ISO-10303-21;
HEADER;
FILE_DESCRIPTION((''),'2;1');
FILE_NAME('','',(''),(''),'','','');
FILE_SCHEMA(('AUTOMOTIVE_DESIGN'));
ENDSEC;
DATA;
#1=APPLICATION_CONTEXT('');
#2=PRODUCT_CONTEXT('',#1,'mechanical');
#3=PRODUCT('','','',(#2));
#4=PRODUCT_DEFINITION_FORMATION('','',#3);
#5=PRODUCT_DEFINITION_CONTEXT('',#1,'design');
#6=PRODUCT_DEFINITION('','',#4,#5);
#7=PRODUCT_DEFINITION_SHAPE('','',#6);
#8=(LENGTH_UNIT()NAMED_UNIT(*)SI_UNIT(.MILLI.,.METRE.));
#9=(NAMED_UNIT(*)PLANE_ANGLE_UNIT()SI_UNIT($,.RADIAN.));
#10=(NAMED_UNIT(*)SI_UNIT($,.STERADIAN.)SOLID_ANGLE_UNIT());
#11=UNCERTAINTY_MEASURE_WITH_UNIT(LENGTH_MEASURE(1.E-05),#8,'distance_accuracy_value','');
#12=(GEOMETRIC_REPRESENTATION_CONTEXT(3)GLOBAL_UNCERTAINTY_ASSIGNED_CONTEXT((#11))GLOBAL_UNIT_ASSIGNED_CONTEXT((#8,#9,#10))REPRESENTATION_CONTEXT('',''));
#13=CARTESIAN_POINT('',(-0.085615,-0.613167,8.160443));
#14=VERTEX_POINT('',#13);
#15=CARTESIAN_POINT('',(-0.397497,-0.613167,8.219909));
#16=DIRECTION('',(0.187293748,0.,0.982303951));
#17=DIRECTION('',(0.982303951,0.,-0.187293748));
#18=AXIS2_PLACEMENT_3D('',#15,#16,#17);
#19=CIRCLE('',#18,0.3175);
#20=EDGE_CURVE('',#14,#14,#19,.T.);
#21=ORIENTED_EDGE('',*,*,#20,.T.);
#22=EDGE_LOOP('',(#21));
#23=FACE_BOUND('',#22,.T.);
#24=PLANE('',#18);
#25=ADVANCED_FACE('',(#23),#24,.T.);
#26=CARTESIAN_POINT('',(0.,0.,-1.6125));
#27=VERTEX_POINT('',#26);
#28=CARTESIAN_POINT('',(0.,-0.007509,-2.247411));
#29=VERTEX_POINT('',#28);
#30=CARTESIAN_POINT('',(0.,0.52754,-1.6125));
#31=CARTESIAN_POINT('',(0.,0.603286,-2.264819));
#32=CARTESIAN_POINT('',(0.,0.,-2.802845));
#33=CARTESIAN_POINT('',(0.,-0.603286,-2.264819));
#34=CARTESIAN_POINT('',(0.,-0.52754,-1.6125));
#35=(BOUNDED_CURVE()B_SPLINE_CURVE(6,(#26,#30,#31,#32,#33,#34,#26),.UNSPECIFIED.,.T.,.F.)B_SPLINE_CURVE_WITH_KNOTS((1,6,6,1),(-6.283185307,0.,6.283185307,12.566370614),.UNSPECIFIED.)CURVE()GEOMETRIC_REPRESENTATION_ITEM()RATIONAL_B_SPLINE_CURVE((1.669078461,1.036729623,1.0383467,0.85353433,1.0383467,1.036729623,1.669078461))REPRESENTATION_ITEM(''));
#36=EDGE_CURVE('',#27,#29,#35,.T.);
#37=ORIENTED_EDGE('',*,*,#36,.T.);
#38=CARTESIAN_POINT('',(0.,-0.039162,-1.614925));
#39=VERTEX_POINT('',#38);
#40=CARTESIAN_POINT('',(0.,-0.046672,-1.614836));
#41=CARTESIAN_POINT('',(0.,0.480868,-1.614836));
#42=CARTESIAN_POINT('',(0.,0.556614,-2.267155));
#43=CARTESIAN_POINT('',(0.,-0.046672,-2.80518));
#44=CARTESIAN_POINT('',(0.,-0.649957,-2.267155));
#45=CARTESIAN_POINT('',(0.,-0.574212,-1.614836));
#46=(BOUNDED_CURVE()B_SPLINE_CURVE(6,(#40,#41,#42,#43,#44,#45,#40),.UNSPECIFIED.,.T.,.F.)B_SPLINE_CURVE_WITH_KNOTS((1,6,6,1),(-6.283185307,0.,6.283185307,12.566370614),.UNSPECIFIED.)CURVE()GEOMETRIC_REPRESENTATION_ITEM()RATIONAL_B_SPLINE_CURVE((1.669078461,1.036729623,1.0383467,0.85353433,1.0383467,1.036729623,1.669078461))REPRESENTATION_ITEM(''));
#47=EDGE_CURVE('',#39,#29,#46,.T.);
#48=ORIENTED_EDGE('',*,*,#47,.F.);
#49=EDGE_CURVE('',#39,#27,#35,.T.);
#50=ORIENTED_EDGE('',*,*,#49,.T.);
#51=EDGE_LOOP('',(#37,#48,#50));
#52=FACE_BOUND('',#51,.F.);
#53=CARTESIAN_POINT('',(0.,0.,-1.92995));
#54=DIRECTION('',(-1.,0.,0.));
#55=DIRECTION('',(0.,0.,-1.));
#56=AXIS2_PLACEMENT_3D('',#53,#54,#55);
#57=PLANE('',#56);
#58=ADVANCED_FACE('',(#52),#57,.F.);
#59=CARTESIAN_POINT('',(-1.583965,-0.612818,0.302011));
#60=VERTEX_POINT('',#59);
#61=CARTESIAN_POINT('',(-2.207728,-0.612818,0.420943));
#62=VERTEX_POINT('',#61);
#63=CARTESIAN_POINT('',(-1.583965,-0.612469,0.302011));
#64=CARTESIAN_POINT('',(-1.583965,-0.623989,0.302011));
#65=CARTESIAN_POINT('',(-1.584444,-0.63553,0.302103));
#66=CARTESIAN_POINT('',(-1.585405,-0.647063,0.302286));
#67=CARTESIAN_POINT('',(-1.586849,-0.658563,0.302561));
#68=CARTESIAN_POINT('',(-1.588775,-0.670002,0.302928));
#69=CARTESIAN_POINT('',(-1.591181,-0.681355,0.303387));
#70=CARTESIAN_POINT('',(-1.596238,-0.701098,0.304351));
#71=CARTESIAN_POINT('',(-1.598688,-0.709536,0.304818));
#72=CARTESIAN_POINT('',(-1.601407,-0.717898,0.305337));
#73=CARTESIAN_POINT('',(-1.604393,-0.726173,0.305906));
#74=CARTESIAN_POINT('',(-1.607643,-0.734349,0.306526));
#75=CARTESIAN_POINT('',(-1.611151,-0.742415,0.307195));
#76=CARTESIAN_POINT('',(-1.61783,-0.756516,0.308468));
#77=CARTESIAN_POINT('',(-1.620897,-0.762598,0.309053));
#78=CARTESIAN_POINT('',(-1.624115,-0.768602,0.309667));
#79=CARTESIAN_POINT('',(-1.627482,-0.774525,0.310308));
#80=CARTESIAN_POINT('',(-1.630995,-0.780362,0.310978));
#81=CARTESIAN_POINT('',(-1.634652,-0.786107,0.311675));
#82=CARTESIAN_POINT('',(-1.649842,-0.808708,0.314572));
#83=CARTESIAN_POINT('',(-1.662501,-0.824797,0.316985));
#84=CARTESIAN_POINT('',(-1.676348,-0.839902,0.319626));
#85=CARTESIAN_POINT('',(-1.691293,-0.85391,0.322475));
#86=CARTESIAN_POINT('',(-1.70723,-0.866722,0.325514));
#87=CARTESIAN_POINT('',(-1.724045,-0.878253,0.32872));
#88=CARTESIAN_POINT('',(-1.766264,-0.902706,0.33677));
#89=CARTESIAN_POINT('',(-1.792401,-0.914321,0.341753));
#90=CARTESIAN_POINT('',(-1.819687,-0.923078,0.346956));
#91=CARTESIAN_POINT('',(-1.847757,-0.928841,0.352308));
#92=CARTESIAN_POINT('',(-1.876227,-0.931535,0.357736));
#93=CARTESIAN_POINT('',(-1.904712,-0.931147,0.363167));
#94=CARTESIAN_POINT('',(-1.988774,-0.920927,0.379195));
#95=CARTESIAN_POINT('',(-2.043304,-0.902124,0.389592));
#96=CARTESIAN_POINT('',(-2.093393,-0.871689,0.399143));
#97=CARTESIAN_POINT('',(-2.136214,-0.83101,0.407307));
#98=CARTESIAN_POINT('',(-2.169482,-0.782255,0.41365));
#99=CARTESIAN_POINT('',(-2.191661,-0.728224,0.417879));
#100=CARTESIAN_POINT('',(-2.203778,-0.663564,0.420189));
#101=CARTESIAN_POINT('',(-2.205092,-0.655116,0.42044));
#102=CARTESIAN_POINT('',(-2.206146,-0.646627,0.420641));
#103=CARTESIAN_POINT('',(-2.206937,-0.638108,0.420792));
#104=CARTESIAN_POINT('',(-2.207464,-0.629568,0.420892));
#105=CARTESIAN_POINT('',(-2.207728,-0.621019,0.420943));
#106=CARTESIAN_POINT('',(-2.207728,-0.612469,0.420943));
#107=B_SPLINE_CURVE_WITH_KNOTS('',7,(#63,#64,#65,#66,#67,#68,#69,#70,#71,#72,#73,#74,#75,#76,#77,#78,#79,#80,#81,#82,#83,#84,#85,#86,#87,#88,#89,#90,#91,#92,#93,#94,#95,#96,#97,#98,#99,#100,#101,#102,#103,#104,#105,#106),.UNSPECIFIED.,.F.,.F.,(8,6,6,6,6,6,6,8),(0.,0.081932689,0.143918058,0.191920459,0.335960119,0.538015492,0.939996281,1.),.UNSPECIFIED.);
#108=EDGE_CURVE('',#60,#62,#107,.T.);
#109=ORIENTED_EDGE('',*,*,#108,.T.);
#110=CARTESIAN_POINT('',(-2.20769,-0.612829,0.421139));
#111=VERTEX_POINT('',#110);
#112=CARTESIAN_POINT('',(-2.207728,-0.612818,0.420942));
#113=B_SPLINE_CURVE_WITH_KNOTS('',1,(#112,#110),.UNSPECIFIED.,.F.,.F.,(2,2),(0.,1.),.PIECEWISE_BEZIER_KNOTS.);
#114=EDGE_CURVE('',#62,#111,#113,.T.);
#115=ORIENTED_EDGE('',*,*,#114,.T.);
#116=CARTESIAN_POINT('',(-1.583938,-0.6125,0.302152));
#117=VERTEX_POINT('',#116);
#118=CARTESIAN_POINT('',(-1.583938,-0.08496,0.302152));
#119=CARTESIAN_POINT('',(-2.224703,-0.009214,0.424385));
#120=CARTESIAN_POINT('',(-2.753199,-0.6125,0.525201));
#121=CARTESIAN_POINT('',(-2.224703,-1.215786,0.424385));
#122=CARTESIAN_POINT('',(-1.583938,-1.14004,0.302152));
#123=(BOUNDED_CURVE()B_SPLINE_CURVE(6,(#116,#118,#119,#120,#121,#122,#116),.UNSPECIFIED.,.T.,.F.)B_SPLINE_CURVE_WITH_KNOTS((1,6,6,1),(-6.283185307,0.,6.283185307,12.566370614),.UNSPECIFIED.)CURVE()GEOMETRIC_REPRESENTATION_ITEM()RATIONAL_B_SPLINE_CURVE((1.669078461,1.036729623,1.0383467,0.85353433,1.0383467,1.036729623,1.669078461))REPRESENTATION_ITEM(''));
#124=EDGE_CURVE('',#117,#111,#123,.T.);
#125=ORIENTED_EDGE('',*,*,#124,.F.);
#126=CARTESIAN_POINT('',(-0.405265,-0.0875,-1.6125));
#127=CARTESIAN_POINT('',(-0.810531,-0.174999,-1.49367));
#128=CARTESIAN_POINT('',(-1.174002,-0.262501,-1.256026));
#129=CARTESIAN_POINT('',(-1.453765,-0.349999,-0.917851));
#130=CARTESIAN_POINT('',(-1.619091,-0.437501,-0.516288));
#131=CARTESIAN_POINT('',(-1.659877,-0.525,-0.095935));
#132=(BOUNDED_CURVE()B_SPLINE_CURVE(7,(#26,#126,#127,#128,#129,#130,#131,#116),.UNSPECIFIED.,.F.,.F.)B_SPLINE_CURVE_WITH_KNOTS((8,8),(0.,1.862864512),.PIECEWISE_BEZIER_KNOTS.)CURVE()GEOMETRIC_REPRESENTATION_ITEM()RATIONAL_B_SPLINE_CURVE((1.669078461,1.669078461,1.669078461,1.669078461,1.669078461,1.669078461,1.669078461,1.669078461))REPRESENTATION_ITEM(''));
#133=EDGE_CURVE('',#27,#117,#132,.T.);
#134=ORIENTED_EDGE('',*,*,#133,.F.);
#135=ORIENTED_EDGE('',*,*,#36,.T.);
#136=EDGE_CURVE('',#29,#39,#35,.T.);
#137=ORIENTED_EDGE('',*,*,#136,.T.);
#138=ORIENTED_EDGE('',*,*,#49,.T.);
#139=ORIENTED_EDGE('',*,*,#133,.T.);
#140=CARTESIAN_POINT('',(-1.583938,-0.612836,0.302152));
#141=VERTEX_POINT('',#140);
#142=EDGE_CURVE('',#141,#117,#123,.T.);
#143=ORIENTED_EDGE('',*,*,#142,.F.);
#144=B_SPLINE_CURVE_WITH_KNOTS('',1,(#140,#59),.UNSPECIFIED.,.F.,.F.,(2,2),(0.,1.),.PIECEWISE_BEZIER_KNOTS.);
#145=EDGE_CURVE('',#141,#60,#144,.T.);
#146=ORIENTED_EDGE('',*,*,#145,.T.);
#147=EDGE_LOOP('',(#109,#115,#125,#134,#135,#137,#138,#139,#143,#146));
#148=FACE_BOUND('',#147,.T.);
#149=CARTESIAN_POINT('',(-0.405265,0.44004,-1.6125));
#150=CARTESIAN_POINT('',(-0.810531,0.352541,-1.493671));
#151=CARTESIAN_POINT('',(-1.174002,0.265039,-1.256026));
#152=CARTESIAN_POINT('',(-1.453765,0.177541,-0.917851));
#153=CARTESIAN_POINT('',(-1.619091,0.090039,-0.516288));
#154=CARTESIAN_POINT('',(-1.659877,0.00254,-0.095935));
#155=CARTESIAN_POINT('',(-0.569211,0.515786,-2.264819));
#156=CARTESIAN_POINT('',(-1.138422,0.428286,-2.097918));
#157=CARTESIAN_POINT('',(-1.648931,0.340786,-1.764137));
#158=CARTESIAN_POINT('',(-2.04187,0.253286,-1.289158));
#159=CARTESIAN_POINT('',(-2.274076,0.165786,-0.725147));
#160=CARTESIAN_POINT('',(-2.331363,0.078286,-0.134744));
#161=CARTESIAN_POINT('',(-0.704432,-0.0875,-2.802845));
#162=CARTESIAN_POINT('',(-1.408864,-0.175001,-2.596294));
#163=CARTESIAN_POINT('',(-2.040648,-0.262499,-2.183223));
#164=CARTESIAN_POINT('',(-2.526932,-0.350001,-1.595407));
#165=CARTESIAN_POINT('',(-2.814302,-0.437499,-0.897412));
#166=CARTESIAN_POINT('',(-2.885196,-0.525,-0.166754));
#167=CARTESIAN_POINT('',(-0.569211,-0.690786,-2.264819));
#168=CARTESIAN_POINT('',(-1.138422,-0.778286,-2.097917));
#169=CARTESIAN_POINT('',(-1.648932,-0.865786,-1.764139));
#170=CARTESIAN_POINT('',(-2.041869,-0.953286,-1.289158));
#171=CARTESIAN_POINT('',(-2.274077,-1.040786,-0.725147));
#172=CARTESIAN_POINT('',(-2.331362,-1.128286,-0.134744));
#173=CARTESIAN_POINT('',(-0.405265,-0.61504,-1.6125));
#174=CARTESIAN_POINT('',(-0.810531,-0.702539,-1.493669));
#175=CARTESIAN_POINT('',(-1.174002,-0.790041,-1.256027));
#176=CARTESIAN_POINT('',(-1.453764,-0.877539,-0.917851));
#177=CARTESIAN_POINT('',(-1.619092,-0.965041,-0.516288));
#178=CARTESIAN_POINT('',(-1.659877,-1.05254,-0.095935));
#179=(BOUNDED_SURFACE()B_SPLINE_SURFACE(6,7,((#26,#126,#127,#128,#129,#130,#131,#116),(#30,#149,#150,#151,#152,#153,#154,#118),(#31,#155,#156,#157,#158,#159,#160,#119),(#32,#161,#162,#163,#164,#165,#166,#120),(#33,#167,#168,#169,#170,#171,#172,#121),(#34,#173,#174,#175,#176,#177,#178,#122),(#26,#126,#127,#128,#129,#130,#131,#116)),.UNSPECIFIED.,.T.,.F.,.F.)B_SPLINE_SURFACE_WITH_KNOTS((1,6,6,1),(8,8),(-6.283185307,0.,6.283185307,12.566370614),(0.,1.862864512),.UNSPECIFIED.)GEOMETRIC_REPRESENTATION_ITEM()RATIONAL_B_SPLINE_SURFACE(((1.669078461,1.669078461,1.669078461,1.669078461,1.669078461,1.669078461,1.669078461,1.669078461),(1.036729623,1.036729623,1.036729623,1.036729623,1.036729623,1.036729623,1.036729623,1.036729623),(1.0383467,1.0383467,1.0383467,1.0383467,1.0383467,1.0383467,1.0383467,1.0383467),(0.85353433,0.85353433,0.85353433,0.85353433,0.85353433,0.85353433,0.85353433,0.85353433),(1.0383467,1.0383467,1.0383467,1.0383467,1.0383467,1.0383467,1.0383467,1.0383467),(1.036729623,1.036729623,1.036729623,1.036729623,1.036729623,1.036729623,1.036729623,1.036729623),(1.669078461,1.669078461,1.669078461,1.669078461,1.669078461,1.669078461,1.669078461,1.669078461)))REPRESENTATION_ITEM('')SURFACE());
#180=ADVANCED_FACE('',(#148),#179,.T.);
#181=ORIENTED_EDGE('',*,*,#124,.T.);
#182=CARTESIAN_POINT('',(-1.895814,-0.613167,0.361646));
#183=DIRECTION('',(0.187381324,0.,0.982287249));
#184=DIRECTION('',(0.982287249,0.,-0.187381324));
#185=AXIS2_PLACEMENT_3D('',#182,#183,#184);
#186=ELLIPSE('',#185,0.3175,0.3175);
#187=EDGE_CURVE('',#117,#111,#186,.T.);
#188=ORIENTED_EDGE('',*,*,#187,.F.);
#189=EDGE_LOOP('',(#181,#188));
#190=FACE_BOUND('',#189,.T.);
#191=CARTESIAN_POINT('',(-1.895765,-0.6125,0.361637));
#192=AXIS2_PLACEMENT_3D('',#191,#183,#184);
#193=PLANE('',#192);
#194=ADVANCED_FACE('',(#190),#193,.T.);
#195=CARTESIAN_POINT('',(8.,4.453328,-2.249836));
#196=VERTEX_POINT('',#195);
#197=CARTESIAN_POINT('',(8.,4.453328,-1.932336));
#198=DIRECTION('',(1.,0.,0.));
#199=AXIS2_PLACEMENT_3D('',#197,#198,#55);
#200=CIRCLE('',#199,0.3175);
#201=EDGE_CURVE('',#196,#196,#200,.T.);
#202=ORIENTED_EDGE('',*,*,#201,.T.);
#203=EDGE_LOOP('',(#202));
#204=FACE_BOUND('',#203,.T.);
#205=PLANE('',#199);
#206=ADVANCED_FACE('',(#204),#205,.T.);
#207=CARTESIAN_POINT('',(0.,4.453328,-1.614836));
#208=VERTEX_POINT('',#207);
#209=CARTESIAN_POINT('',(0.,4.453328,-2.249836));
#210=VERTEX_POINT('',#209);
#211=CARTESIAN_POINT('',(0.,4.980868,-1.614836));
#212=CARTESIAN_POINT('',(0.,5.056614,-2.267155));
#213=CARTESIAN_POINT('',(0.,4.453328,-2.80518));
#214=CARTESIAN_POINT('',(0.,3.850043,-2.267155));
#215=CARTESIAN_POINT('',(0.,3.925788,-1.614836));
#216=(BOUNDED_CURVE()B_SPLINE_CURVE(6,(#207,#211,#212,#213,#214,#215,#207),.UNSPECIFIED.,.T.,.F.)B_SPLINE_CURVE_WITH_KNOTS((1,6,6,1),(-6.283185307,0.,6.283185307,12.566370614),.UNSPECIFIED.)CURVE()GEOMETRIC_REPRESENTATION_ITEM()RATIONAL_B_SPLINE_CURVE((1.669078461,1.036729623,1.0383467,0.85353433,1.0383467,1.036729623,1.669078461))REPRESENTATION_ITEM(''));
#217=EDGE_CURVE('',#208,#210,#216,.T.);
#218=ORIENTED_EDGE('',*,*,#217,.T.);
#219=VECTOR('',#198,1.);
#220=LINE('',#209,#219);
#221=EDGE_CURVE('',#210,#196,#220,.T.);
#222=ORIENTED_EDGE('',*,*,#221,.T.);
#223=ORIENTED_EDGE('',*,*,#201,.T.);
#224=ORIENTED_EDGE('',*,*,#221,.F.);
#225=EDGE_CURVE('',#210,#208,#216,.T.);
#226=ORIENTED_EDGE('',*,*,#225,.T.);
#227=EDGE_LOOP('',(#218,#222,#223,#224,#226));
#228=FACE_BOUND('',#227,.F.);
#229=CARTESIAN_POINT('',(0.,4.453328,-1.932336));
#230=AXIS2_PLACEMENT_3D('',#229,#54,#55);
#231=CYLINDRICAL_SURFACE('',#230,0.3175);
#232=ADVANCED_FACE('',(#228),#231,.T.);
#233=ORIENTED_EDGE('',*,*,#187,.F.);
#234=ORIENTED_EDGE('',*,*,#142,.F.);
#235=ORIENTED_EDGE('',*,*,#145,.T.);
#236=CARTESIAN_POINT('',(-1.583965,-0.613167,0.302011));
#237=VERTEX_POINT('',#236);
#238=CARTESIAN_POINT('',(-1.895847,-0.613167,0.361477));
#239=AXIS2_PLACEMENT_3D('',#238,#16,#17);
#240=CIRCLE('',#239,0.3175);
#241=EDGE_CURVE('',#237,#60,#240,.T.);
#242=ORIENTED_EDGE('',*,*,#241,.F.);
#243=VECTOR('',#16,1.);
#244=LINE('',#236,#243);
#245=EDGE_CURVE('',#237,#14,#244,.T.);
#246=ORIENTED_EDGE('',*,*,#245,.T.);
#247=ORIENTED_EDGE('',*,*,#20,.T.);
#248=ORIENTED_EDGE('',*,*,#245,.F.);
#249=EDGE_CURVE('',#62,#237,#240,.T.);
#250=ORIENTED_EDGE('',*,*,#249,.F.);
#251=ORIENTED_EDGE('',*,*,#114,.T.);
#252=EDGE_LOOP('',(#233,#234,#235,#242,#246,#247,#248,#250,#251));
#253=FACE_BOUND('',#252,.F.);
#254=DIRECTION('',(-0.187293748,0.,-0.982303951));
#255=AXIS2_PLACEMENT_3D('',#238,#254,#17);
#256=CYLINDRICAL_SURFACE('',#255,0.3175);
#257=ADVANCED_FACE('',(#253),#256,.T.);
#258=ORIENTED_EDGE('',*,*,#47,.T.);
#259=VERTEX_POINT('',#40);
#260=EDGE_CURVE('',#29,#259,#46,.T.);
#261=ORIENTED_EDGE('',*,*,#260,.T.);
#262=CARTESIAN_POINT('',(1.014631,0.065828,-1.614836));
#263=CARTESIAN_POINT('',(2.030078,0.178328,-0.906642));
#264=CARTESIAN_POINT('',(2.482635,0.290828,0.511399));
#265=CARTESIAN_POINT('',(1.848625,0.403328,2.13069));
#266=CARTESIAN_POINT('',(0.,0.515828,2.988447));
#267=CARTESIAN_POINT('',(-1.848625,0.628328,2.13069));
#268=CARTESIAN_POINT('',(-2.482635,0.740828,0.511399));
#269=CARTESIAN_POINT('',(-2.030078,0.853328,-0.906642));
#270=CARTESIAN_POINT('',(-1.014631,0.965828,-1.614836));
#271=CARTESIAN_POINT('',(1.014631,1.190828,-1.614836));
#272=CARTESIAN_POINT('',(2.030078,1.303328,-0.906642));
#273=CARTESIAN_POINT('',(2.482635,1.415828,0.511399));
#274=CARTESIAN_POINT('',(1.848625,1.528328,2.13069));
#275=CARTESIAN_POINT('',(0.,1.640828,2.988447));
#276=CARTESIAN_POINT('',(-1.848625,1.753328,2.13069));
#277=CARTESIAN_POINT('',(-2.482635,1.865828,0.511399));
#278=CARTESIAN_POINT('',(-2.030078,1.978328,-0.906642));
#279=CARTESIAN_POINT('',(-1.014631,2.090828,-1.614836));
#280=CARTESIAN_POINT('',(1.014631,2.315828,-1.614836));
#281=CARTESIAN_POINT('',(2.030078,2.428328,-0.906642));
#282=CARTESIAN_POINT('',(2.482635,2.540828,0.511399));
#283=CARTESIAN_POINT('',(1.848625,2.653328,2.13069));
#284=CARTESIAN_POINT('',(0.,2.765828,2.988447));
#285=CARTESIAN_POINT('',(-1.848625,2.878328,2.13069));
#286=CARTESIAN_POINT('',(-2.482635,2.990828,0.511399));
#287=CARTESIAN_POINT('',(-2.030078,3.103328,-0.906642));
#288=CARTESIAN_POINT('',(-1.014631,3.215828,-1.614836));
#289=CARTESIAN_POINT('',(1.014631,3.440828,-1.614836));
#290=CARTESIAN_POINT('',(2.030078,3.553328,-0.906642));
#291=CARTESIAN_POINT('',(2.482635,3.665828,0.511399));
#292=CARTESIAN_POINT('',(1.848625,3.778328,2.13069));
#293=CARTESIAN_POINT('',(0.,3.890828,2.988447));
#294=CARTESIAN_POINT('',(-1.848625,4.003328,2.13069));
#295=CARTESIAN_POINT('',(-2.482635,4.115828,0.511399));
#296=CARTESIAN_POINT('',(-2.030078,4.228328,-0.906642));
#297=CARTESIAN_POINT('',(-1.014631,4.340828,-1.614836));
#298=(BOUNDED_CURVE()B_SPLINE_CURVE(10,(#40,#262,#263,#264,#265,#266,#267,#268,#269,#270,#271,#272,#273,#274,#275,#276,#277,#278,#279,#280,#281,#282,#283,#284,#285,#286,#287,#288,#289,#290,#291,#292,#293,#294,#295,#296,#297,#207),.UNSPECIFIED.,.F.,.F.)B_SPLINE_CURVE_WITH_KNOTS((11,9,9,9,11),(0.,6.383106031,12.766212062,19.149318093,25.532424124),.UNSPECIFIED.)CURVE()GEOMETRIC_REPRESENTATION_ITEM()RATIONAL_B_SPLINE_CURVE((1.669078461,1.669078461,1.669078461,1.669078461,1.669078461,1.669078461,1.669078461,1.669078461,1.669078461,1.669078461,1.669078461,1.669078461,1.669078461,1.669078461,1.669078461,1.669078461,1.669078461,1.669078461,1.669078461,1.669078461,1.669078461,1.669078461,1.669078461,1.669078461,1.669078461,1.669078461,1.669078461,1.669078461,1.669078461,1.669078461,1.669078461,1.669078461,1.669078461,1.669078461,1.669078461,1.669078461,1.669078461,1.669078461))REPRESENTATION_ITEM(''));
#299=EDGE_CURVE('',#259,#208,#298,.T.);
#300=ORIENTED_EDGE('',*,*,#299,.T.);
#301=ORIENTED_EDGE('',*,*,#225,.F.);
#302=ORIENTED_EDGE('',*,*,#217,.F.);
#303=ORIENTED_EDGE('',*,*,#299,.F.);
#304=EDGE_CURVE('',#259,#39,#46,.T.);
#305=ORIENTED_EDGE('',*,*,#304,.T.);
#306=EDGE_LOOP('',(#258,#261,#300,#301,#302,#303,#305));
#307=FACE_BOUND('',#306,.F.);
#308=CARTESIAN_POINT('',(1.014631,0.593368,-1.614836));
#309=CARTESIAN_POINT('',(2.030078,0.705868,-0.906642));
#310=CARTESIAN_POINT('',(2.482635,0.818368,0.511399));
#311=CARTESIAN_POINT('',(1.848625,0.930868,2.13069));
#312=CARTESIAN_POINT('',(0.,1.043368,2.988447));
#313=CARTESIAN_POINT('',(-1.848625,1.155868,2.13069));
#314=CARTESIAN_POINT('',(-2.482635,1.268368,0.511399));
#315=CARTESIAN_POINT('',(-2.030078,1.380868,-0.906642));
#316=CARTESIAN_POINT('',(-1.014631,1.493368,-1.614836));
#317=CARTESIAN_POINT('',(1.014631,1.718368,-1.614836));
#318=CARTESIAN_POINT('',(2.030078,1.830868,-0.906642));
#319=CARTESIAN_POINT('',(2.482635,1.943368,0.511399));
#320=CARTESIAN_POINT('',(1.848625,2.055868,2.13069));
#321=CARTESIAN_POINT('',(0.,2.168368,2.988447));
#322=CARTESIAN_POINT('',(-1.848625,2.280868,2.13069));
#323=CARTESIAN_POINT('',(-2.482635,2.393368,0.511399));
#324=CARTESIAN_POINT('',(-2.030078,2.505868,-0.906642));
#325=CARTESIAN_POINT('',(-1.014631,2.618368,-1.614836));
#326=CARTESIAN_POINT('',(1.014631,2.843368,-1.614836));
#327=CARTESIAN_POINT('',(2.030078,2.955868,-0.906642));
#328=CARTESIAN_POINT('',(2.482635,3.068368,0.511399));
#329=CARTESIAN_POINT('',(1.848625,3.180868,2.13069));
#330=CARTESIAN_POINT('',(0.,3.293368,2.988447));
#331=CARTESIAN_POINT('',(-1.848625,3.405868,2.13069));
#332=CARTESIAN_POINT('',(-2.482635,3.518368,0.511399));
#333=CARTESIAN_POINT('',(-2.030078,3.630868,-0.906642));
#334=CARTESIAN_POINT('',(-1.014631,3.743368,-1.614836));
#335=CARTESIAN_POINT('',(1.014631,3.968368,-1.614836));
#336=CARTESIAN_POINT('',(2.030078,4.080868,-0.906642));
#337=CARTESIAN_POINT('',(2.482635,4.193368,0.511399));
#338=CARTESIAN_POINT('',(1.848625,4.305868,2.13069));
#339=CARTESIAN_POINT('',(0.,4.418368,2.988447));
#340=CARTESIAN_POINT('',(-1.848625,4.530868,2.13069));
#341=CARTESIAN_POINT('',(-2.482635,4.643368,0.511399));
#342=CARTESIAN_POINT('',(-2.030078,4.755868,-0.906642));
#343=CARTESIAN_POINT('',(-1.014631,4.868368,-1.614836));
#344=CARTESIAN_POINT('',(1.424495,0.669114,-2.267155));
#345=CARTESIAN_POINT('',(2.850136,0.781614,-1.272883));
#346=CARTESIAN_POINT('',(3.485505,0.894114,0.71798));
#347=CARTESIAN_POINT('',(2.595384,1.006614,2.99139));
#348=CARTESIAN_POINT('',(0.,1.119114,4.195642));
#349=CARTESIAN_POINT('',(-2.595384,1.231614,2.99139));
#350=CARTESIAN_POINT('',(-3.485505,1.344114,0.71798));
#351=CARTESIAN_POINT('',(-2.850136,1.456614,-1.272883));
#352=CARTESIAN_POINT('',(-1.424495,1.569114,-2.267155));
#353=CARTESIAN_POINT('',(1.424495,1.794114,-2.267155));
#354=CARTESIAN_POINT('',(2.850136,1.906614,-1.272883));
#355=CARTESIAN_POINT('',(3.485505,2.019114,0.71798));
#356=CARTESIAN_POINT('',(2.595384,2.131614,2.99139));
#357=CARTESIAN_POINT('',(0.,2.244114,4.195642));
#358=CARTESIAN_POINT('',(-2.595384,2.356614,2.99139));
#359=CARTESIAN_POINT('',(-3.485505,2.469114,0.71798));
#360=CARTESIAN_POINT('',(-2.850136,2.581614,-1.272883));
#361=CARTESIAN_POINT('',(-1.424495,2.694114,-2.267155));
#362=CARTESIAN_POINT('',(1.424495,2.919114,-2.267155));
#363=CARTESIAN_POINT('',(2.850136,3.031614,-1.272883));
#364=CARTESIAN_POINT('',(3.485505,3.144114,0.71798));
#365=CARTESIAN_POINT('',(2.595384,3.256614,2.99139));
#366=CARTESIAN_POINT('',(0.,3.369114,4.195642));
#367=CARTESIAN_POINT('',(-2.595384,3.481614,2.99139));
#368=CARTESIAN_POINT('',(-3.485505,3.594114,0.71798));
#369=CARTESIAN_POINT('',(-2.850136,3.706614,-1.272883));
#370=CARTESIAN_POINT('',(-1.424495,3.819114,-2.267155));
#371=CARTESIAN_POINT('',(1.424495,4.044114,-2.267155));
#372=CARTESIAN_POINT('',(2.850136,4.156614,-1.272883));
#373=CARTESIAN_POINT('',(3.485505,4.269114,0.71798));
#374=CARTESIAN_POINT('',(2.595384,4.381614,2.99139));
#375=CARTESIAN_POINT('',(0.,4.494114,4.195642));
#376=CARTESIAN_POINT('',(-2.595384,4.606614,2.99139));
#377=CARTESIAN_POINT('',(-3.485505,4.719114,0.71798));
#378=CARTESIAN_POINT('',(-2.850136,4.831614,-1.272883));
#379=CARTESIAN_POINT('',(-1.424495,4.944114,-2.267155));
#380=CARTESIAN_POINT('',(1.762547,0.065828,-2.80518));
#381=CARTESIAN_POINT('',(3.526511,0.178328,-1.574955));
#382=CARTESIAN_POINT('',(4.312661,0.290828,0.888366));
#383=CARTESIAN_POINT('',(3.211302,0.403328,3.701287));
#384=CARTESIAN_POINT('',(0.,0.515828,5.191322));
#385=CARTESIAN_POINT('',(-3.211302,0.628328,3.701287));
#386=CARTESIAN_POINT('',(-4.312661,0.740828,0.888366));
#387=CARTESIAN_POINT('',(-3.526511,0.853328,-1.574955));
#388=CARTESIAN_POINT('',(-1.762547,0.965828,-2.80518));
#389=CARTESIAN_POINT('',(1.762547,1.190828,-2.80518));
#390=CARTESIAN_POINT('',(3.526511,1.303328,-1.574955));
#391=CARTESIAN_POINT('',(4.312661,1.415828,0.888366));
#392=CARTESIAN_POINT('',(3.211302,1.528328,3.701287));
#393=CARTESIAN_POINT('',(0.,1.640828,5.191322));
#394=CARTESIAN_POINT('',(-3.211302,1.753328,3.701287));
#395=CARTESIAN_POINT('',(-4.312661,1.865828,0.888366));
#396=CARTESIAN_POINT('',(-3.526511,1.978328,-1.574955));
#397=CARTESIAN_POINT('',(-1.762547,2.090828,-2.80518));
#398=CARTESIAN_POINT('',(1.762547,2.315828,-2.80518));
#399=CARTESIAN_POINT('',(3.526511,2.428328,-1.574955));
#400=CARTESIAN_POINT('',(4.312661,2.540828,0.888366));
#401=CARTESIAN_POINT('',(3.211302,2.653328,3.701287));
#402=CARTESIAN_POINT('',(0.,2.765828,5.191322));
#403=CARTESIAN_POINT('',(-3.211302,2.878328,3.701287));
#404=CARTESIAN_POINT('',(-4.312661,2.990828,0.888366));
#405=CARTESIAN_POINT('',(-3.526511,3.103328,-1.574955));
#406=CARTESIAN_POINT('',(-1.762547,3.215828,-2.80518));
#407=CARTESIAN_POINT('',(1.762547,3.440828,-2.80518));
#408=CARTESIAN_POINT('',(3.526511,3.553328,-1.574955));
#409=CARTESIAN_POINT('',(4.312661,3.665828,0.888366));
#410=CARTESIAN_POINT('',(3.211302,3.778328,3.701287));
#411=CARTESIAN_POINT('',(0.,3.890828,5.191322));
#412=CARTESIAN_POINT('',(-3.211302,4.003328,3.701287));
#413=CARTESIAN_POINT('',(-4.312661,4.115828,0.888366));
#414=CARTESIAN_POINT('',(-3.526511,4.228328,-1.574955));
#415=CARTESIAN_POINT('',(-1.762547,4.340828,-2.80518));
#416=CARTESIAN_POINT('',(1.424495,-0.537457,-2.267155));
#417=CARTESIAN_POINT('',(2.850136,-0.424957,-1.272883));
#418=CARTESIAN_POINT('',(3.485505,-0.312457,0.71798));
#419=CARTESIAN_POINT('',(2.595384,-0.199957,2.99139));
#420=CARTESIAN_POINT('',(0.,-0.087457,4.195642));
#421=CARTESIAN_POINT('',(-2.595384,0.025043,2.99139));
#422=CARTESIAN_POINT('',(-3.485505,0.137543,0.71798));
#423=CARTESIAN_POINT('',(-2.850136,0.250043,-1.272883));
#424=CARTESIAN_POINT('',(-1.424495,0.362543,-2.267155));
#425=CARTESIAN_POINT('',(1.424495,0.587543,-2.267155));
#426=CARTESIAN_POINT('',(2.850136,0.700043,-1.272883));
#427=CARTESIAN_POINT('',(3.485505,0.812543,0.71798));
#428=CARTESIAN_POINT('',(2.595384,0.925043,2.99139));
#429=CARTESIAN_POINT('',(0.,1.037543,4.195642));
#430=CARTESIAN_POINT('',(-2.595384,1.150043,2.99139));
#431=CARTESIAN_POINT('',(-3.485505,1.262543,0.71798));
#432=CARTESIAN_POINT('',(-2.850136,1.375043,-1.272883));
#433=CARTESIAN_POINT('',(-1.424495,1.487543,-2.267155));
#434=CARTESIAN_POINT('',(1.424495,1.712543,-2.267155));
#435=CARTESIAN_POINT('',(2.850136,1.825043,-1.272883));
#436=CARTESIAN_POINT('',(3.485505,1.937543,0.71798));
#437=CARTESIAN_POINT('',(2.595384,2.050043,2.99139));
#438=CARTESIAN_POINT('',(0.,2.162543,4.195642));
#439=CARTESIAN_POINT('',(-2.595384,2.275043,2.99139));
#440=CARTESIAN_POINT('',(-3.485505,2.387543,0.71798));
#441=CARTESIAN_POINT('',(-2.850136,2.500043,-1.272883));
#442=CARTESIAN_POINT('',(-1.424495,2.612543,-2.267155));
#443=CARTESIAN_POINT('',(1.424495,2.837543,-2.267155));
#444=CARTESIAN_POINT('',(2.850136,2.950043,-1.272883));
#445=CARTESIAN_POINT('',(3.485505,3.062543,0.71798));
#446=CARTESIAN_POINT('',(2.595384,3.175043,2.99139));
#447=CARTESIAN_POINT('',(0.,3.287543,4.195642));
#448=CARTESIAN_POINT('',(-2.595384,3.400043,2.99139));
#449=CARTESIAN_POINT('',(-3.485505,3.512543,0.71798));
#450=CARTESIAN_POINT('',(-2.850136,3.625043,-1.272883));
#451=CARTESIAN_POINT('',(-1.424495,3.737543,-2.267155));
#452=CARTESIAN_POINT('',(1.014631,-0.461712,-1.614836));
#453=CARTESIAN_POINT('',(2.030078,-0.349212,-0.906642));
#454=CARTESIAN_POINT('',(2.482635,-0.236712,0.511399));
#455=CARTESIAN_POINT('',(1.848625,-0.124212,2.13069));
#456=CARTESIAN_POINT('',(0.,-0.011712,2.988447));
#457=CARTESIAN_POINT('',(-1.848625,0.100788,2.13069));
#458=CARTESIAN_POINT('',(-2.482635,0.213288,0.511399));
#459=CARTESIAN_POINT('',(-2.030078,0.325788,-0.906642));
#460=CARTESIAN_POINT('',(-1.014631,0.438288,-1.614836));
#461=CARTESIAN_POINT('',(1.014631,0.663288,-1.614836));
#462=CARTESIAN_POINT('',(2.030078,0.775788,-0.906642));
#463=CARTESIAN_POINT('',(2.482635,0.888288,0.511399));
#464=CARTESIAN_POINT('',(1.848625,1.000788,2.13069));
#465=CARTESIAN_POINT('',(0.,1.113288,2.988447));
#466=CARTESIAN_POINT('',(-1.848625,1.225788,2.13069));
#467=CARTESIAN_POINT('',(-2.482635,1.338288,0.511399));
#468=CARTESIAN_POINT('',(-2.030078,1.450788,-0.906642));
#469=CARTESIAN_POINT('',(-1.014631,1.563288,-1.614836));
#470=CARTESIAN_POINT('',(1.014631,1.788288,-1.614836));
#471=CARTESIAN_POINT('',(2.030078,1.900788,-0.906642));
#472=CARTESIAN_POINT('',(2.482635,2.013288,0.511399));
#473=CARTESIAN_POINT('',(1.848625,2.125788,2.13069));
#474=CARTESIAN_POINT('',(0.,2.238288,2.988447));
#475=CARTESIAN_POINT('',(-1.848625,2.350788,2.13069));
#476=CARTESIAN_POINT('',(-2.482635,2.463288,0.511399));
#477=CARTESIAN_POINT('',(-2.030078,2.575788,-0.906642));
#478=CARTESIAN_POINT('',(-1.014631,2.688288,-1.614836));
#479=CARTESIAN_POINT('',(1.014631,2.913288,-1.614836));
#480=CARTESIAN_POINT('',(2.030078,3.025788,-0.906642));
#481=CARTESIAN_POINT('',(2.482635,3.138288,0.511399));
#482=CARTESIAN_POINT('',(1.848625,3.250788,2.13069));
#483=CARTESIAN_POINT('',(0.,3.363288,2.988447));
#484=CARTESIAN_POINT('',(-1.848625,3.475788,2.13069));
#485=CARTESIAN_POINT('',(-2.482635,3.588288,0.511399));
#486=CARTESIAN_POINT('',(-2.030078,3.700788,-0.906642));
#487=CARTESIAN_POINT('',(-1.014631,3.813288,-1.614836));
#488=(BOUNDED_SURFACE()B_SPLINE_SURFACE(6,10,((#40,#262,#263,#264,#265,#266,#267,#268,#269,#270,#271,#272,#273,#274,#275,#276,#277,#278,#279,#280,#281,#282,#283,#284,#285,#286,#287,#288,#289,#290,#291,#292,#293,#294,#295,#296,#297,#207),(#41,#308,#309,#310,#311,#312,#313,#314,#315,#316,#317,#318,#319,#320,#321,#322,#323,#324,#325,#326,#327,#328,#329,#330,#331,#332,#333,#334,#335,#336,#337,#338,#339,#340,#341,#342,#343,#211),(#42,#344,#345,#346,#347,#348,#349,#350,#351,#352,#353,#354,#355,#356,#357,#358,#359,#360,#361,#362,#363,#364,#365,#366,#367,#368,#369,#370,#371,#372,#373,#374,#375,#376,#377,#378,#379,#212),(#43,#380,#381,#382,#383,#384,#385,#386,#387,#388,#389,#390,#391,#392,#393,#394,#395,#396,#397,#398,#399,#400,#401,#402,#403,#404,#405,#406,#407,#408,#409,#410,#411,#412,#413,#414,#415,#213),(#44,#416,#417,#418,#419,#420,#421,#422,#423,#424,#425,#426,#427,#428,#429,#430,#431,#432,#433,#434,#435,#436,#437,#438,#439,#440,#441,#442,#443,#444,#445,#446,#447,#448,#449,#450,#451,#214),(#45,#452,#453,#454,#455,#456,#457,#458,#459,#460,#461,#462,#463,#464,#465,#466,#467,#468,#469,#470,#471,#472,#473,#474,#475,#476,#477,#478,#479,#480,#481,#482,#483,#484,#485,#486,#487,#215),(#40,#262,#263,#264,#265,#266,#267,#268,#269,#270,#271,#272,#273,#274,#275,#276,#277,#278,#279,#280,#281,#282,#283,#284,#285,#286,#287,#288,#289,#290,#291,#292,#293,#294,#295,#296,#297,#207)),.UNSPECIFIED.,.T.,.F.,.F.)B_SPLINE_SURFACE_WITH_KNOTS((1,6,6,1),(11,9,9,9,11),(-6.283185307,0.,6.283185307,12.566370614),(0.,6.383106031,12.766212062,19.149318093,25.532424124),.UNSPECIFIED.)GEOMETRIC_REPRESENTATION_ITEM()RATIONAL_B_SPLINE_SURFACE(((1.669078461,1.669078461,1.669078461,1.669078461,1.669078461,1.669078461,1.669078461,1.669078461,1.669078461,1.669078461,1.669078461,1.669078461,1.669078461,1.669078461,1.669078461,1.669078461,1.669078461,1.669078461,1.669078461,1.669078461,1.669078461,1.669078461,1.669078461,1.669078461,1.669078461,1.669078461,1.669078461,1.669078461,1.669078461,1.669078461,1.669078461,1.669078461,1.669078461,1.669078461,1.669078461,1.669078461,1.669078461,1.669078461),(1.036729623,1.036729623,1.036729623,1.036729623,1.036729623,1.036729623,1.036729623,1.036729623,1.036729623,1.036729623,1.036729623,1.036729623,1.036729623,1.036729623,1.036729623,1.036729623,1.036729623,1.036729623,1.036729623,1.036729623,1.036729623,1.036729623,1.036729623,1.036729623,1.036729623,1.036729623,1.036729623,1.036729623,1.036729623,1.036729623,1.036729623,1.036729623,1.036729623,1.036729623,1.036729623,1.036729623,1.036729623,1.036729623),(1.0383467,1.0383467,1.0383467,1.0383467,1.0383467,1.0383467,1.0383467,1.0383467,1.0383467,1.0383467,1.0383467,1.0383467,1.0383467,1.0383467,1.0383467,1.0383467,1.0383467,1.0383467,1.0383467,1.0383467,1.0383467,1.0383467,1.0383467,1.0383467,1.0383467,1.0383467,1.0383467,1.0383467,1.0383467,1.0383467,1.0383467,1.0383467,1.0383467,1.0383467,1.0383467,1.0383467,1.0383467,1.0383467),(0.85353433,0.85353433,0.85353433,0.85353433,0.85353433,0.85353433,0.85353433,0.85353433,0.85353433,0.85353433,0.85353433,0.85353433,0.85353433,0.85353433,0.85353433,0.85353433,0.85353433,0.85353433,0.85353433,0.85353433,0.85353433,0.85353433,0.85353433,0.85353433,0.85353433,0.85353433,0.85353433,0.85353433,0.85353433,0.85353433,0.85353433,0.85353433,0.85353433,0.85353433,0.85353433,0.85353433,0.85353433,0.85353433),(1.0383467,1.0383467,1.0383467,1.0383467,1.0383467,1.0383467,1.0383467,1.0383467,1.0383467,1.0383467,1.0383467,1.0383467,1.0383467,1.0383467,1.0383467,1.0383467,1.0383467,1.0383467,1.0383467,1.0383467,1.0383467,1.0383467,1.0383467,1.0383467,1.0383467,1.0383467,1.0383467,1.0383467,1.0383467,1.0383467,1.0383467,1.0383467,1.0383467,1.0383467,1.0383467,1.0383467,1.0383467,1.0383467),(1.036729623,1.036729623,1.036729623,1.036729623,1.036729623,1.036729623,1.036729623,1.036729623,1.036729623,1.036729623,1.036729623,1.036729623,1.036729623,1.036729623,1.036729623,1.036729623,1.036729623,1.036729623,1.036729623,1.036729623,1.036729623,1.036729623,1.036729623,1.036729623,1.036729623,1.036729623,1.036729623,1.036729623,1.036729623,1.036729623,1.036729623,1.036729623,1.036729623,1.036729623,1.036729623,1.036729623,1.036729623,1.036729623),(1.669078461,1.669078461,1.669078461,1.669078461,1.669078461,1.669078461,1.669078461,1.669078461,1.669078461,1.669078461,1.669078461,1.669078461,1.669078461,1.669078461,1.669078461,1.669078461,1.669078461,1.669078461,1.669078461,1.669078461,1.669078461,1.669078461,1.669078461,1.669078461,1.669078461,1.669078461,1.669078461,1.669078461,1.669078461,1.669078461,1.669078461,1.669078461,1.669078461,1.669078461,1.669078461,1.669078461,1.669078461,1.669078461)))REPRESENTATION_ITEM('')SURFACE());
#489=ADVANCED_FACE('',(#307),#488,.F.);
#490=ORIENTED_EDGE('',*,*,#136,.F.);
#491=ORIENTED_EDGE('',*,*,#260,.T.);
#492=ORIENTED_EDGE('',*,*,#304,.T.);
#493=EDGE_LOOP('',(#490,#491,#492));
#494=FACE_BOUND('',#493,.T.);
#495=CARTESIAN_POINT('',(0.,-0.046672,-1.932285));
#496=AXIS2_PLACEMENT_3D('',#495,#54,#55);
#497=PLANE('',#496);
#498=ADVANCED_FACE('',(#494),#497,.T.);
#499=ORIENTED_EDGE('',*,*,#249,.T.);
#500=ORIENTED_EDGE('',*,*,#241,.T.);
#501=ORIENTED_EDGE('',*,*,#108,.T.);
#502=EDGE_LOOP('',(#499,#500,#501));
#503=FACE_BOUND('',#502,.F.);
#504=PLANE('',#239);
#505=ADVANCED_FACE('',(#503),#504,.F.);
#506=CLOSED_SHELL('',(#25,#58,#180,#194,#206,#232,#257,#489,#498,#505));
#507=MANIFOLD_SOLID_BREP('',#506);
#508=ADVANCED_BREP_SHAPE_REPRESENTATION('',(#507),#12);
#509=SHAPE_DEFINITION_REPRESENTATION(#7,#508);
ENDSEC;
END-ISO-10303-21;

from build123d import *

# Parameters (mm, degrees)
SWEEP1_PITCH        = 1.125
SWEEP1_HEIGHT       = 4.5
SWEEP1_RADIUS       = 2
SWEEP1_START_ANGLE  = -180
SKETCH2_R           = 0.317499998
SWEEP3_PITCH        = 2.1875
SWEEP3_HEIGHT       = 0.6125
SWEEP3_RADIUS       = 2.25
SKETCH5_R           = 0.3175
SKETCH12_R          = 0.317499998
BOSS_EXTRUDE4_DEPTH = 8
SKETCH15_R          = 0.3175
BOSS_EXTRUDE7_DEPTH = 8


with BuildPart() as part:
    # Sweep1: sweep along a helix
    with BuildLine() as sweep1_path:
        add(Helix(SWEEP1_PITCH, SWEEP1_HEIGHT, SWEEP1_RADIUS, center=(0, 0, 0), direction=(0, 1, 0), lefthand=True, mode=Mode.PRIVATE).rotate(Axis((0, 0, 0), (0, 1, 0)), SWEEP1_START_ANGLE))
    # Sketch2 → Sweep1 (sweep)
    with BuildSketch(Plane(origin=(0, 0, 0), x_dir=(0, 0, -1), z_dir=(1, 0, 0))):
        with Locations((-1.93233569, 0.515828248)):
            Circle(SKETCH2_R)
    sweep(path=sweep1_path.line, is_frenet=True)

    # Sweep3: sweep along a helix
    with BuildLine() as sweep3_path:
        Helix(SWEEP3_PITCH, SWEEP3_HEIGHT, SWEEP3_RADIUS, center=(0, 0, 0), direction=(0, -1, 0), lefthand=True)
    # Sketch5 → Sweep3 (sweep)
    with BuildSketch(Plane.ZY):
        with Locations((-1.93, 0)):
            Circle(SKETCH5_R)
    sweep(path=sweep3_path.line, is_frenet=True)

    # Sketch12 → Boss-Extrude4 (add)
    with BuildSketch(Plane(origin=(0, 0, 0), x_dir=(0, 0, -1), z_dir=(1, 0, 0))):
        with Locations((1.93233569, 4.453328248)):
            Circle(SKETCH12_R)
    extrude(amount=BOSS_EXTRUDE4_DEPTH)

    # Sketch15 → Boss-Extrude7 (add)
    with BuildSketch(Plane(origin=(0, 0, 0), x_dir=(0.982303951, 0, -0.187293748), z_dir=(0.187293748, 0, 0.982303951))):
        with Locations((-1.93, -0.613166674)):
            Circle(SKETCH15_R)
    extrude(amount=BOSS_EXTRUDE7_DEPTH)


solid = part.part
